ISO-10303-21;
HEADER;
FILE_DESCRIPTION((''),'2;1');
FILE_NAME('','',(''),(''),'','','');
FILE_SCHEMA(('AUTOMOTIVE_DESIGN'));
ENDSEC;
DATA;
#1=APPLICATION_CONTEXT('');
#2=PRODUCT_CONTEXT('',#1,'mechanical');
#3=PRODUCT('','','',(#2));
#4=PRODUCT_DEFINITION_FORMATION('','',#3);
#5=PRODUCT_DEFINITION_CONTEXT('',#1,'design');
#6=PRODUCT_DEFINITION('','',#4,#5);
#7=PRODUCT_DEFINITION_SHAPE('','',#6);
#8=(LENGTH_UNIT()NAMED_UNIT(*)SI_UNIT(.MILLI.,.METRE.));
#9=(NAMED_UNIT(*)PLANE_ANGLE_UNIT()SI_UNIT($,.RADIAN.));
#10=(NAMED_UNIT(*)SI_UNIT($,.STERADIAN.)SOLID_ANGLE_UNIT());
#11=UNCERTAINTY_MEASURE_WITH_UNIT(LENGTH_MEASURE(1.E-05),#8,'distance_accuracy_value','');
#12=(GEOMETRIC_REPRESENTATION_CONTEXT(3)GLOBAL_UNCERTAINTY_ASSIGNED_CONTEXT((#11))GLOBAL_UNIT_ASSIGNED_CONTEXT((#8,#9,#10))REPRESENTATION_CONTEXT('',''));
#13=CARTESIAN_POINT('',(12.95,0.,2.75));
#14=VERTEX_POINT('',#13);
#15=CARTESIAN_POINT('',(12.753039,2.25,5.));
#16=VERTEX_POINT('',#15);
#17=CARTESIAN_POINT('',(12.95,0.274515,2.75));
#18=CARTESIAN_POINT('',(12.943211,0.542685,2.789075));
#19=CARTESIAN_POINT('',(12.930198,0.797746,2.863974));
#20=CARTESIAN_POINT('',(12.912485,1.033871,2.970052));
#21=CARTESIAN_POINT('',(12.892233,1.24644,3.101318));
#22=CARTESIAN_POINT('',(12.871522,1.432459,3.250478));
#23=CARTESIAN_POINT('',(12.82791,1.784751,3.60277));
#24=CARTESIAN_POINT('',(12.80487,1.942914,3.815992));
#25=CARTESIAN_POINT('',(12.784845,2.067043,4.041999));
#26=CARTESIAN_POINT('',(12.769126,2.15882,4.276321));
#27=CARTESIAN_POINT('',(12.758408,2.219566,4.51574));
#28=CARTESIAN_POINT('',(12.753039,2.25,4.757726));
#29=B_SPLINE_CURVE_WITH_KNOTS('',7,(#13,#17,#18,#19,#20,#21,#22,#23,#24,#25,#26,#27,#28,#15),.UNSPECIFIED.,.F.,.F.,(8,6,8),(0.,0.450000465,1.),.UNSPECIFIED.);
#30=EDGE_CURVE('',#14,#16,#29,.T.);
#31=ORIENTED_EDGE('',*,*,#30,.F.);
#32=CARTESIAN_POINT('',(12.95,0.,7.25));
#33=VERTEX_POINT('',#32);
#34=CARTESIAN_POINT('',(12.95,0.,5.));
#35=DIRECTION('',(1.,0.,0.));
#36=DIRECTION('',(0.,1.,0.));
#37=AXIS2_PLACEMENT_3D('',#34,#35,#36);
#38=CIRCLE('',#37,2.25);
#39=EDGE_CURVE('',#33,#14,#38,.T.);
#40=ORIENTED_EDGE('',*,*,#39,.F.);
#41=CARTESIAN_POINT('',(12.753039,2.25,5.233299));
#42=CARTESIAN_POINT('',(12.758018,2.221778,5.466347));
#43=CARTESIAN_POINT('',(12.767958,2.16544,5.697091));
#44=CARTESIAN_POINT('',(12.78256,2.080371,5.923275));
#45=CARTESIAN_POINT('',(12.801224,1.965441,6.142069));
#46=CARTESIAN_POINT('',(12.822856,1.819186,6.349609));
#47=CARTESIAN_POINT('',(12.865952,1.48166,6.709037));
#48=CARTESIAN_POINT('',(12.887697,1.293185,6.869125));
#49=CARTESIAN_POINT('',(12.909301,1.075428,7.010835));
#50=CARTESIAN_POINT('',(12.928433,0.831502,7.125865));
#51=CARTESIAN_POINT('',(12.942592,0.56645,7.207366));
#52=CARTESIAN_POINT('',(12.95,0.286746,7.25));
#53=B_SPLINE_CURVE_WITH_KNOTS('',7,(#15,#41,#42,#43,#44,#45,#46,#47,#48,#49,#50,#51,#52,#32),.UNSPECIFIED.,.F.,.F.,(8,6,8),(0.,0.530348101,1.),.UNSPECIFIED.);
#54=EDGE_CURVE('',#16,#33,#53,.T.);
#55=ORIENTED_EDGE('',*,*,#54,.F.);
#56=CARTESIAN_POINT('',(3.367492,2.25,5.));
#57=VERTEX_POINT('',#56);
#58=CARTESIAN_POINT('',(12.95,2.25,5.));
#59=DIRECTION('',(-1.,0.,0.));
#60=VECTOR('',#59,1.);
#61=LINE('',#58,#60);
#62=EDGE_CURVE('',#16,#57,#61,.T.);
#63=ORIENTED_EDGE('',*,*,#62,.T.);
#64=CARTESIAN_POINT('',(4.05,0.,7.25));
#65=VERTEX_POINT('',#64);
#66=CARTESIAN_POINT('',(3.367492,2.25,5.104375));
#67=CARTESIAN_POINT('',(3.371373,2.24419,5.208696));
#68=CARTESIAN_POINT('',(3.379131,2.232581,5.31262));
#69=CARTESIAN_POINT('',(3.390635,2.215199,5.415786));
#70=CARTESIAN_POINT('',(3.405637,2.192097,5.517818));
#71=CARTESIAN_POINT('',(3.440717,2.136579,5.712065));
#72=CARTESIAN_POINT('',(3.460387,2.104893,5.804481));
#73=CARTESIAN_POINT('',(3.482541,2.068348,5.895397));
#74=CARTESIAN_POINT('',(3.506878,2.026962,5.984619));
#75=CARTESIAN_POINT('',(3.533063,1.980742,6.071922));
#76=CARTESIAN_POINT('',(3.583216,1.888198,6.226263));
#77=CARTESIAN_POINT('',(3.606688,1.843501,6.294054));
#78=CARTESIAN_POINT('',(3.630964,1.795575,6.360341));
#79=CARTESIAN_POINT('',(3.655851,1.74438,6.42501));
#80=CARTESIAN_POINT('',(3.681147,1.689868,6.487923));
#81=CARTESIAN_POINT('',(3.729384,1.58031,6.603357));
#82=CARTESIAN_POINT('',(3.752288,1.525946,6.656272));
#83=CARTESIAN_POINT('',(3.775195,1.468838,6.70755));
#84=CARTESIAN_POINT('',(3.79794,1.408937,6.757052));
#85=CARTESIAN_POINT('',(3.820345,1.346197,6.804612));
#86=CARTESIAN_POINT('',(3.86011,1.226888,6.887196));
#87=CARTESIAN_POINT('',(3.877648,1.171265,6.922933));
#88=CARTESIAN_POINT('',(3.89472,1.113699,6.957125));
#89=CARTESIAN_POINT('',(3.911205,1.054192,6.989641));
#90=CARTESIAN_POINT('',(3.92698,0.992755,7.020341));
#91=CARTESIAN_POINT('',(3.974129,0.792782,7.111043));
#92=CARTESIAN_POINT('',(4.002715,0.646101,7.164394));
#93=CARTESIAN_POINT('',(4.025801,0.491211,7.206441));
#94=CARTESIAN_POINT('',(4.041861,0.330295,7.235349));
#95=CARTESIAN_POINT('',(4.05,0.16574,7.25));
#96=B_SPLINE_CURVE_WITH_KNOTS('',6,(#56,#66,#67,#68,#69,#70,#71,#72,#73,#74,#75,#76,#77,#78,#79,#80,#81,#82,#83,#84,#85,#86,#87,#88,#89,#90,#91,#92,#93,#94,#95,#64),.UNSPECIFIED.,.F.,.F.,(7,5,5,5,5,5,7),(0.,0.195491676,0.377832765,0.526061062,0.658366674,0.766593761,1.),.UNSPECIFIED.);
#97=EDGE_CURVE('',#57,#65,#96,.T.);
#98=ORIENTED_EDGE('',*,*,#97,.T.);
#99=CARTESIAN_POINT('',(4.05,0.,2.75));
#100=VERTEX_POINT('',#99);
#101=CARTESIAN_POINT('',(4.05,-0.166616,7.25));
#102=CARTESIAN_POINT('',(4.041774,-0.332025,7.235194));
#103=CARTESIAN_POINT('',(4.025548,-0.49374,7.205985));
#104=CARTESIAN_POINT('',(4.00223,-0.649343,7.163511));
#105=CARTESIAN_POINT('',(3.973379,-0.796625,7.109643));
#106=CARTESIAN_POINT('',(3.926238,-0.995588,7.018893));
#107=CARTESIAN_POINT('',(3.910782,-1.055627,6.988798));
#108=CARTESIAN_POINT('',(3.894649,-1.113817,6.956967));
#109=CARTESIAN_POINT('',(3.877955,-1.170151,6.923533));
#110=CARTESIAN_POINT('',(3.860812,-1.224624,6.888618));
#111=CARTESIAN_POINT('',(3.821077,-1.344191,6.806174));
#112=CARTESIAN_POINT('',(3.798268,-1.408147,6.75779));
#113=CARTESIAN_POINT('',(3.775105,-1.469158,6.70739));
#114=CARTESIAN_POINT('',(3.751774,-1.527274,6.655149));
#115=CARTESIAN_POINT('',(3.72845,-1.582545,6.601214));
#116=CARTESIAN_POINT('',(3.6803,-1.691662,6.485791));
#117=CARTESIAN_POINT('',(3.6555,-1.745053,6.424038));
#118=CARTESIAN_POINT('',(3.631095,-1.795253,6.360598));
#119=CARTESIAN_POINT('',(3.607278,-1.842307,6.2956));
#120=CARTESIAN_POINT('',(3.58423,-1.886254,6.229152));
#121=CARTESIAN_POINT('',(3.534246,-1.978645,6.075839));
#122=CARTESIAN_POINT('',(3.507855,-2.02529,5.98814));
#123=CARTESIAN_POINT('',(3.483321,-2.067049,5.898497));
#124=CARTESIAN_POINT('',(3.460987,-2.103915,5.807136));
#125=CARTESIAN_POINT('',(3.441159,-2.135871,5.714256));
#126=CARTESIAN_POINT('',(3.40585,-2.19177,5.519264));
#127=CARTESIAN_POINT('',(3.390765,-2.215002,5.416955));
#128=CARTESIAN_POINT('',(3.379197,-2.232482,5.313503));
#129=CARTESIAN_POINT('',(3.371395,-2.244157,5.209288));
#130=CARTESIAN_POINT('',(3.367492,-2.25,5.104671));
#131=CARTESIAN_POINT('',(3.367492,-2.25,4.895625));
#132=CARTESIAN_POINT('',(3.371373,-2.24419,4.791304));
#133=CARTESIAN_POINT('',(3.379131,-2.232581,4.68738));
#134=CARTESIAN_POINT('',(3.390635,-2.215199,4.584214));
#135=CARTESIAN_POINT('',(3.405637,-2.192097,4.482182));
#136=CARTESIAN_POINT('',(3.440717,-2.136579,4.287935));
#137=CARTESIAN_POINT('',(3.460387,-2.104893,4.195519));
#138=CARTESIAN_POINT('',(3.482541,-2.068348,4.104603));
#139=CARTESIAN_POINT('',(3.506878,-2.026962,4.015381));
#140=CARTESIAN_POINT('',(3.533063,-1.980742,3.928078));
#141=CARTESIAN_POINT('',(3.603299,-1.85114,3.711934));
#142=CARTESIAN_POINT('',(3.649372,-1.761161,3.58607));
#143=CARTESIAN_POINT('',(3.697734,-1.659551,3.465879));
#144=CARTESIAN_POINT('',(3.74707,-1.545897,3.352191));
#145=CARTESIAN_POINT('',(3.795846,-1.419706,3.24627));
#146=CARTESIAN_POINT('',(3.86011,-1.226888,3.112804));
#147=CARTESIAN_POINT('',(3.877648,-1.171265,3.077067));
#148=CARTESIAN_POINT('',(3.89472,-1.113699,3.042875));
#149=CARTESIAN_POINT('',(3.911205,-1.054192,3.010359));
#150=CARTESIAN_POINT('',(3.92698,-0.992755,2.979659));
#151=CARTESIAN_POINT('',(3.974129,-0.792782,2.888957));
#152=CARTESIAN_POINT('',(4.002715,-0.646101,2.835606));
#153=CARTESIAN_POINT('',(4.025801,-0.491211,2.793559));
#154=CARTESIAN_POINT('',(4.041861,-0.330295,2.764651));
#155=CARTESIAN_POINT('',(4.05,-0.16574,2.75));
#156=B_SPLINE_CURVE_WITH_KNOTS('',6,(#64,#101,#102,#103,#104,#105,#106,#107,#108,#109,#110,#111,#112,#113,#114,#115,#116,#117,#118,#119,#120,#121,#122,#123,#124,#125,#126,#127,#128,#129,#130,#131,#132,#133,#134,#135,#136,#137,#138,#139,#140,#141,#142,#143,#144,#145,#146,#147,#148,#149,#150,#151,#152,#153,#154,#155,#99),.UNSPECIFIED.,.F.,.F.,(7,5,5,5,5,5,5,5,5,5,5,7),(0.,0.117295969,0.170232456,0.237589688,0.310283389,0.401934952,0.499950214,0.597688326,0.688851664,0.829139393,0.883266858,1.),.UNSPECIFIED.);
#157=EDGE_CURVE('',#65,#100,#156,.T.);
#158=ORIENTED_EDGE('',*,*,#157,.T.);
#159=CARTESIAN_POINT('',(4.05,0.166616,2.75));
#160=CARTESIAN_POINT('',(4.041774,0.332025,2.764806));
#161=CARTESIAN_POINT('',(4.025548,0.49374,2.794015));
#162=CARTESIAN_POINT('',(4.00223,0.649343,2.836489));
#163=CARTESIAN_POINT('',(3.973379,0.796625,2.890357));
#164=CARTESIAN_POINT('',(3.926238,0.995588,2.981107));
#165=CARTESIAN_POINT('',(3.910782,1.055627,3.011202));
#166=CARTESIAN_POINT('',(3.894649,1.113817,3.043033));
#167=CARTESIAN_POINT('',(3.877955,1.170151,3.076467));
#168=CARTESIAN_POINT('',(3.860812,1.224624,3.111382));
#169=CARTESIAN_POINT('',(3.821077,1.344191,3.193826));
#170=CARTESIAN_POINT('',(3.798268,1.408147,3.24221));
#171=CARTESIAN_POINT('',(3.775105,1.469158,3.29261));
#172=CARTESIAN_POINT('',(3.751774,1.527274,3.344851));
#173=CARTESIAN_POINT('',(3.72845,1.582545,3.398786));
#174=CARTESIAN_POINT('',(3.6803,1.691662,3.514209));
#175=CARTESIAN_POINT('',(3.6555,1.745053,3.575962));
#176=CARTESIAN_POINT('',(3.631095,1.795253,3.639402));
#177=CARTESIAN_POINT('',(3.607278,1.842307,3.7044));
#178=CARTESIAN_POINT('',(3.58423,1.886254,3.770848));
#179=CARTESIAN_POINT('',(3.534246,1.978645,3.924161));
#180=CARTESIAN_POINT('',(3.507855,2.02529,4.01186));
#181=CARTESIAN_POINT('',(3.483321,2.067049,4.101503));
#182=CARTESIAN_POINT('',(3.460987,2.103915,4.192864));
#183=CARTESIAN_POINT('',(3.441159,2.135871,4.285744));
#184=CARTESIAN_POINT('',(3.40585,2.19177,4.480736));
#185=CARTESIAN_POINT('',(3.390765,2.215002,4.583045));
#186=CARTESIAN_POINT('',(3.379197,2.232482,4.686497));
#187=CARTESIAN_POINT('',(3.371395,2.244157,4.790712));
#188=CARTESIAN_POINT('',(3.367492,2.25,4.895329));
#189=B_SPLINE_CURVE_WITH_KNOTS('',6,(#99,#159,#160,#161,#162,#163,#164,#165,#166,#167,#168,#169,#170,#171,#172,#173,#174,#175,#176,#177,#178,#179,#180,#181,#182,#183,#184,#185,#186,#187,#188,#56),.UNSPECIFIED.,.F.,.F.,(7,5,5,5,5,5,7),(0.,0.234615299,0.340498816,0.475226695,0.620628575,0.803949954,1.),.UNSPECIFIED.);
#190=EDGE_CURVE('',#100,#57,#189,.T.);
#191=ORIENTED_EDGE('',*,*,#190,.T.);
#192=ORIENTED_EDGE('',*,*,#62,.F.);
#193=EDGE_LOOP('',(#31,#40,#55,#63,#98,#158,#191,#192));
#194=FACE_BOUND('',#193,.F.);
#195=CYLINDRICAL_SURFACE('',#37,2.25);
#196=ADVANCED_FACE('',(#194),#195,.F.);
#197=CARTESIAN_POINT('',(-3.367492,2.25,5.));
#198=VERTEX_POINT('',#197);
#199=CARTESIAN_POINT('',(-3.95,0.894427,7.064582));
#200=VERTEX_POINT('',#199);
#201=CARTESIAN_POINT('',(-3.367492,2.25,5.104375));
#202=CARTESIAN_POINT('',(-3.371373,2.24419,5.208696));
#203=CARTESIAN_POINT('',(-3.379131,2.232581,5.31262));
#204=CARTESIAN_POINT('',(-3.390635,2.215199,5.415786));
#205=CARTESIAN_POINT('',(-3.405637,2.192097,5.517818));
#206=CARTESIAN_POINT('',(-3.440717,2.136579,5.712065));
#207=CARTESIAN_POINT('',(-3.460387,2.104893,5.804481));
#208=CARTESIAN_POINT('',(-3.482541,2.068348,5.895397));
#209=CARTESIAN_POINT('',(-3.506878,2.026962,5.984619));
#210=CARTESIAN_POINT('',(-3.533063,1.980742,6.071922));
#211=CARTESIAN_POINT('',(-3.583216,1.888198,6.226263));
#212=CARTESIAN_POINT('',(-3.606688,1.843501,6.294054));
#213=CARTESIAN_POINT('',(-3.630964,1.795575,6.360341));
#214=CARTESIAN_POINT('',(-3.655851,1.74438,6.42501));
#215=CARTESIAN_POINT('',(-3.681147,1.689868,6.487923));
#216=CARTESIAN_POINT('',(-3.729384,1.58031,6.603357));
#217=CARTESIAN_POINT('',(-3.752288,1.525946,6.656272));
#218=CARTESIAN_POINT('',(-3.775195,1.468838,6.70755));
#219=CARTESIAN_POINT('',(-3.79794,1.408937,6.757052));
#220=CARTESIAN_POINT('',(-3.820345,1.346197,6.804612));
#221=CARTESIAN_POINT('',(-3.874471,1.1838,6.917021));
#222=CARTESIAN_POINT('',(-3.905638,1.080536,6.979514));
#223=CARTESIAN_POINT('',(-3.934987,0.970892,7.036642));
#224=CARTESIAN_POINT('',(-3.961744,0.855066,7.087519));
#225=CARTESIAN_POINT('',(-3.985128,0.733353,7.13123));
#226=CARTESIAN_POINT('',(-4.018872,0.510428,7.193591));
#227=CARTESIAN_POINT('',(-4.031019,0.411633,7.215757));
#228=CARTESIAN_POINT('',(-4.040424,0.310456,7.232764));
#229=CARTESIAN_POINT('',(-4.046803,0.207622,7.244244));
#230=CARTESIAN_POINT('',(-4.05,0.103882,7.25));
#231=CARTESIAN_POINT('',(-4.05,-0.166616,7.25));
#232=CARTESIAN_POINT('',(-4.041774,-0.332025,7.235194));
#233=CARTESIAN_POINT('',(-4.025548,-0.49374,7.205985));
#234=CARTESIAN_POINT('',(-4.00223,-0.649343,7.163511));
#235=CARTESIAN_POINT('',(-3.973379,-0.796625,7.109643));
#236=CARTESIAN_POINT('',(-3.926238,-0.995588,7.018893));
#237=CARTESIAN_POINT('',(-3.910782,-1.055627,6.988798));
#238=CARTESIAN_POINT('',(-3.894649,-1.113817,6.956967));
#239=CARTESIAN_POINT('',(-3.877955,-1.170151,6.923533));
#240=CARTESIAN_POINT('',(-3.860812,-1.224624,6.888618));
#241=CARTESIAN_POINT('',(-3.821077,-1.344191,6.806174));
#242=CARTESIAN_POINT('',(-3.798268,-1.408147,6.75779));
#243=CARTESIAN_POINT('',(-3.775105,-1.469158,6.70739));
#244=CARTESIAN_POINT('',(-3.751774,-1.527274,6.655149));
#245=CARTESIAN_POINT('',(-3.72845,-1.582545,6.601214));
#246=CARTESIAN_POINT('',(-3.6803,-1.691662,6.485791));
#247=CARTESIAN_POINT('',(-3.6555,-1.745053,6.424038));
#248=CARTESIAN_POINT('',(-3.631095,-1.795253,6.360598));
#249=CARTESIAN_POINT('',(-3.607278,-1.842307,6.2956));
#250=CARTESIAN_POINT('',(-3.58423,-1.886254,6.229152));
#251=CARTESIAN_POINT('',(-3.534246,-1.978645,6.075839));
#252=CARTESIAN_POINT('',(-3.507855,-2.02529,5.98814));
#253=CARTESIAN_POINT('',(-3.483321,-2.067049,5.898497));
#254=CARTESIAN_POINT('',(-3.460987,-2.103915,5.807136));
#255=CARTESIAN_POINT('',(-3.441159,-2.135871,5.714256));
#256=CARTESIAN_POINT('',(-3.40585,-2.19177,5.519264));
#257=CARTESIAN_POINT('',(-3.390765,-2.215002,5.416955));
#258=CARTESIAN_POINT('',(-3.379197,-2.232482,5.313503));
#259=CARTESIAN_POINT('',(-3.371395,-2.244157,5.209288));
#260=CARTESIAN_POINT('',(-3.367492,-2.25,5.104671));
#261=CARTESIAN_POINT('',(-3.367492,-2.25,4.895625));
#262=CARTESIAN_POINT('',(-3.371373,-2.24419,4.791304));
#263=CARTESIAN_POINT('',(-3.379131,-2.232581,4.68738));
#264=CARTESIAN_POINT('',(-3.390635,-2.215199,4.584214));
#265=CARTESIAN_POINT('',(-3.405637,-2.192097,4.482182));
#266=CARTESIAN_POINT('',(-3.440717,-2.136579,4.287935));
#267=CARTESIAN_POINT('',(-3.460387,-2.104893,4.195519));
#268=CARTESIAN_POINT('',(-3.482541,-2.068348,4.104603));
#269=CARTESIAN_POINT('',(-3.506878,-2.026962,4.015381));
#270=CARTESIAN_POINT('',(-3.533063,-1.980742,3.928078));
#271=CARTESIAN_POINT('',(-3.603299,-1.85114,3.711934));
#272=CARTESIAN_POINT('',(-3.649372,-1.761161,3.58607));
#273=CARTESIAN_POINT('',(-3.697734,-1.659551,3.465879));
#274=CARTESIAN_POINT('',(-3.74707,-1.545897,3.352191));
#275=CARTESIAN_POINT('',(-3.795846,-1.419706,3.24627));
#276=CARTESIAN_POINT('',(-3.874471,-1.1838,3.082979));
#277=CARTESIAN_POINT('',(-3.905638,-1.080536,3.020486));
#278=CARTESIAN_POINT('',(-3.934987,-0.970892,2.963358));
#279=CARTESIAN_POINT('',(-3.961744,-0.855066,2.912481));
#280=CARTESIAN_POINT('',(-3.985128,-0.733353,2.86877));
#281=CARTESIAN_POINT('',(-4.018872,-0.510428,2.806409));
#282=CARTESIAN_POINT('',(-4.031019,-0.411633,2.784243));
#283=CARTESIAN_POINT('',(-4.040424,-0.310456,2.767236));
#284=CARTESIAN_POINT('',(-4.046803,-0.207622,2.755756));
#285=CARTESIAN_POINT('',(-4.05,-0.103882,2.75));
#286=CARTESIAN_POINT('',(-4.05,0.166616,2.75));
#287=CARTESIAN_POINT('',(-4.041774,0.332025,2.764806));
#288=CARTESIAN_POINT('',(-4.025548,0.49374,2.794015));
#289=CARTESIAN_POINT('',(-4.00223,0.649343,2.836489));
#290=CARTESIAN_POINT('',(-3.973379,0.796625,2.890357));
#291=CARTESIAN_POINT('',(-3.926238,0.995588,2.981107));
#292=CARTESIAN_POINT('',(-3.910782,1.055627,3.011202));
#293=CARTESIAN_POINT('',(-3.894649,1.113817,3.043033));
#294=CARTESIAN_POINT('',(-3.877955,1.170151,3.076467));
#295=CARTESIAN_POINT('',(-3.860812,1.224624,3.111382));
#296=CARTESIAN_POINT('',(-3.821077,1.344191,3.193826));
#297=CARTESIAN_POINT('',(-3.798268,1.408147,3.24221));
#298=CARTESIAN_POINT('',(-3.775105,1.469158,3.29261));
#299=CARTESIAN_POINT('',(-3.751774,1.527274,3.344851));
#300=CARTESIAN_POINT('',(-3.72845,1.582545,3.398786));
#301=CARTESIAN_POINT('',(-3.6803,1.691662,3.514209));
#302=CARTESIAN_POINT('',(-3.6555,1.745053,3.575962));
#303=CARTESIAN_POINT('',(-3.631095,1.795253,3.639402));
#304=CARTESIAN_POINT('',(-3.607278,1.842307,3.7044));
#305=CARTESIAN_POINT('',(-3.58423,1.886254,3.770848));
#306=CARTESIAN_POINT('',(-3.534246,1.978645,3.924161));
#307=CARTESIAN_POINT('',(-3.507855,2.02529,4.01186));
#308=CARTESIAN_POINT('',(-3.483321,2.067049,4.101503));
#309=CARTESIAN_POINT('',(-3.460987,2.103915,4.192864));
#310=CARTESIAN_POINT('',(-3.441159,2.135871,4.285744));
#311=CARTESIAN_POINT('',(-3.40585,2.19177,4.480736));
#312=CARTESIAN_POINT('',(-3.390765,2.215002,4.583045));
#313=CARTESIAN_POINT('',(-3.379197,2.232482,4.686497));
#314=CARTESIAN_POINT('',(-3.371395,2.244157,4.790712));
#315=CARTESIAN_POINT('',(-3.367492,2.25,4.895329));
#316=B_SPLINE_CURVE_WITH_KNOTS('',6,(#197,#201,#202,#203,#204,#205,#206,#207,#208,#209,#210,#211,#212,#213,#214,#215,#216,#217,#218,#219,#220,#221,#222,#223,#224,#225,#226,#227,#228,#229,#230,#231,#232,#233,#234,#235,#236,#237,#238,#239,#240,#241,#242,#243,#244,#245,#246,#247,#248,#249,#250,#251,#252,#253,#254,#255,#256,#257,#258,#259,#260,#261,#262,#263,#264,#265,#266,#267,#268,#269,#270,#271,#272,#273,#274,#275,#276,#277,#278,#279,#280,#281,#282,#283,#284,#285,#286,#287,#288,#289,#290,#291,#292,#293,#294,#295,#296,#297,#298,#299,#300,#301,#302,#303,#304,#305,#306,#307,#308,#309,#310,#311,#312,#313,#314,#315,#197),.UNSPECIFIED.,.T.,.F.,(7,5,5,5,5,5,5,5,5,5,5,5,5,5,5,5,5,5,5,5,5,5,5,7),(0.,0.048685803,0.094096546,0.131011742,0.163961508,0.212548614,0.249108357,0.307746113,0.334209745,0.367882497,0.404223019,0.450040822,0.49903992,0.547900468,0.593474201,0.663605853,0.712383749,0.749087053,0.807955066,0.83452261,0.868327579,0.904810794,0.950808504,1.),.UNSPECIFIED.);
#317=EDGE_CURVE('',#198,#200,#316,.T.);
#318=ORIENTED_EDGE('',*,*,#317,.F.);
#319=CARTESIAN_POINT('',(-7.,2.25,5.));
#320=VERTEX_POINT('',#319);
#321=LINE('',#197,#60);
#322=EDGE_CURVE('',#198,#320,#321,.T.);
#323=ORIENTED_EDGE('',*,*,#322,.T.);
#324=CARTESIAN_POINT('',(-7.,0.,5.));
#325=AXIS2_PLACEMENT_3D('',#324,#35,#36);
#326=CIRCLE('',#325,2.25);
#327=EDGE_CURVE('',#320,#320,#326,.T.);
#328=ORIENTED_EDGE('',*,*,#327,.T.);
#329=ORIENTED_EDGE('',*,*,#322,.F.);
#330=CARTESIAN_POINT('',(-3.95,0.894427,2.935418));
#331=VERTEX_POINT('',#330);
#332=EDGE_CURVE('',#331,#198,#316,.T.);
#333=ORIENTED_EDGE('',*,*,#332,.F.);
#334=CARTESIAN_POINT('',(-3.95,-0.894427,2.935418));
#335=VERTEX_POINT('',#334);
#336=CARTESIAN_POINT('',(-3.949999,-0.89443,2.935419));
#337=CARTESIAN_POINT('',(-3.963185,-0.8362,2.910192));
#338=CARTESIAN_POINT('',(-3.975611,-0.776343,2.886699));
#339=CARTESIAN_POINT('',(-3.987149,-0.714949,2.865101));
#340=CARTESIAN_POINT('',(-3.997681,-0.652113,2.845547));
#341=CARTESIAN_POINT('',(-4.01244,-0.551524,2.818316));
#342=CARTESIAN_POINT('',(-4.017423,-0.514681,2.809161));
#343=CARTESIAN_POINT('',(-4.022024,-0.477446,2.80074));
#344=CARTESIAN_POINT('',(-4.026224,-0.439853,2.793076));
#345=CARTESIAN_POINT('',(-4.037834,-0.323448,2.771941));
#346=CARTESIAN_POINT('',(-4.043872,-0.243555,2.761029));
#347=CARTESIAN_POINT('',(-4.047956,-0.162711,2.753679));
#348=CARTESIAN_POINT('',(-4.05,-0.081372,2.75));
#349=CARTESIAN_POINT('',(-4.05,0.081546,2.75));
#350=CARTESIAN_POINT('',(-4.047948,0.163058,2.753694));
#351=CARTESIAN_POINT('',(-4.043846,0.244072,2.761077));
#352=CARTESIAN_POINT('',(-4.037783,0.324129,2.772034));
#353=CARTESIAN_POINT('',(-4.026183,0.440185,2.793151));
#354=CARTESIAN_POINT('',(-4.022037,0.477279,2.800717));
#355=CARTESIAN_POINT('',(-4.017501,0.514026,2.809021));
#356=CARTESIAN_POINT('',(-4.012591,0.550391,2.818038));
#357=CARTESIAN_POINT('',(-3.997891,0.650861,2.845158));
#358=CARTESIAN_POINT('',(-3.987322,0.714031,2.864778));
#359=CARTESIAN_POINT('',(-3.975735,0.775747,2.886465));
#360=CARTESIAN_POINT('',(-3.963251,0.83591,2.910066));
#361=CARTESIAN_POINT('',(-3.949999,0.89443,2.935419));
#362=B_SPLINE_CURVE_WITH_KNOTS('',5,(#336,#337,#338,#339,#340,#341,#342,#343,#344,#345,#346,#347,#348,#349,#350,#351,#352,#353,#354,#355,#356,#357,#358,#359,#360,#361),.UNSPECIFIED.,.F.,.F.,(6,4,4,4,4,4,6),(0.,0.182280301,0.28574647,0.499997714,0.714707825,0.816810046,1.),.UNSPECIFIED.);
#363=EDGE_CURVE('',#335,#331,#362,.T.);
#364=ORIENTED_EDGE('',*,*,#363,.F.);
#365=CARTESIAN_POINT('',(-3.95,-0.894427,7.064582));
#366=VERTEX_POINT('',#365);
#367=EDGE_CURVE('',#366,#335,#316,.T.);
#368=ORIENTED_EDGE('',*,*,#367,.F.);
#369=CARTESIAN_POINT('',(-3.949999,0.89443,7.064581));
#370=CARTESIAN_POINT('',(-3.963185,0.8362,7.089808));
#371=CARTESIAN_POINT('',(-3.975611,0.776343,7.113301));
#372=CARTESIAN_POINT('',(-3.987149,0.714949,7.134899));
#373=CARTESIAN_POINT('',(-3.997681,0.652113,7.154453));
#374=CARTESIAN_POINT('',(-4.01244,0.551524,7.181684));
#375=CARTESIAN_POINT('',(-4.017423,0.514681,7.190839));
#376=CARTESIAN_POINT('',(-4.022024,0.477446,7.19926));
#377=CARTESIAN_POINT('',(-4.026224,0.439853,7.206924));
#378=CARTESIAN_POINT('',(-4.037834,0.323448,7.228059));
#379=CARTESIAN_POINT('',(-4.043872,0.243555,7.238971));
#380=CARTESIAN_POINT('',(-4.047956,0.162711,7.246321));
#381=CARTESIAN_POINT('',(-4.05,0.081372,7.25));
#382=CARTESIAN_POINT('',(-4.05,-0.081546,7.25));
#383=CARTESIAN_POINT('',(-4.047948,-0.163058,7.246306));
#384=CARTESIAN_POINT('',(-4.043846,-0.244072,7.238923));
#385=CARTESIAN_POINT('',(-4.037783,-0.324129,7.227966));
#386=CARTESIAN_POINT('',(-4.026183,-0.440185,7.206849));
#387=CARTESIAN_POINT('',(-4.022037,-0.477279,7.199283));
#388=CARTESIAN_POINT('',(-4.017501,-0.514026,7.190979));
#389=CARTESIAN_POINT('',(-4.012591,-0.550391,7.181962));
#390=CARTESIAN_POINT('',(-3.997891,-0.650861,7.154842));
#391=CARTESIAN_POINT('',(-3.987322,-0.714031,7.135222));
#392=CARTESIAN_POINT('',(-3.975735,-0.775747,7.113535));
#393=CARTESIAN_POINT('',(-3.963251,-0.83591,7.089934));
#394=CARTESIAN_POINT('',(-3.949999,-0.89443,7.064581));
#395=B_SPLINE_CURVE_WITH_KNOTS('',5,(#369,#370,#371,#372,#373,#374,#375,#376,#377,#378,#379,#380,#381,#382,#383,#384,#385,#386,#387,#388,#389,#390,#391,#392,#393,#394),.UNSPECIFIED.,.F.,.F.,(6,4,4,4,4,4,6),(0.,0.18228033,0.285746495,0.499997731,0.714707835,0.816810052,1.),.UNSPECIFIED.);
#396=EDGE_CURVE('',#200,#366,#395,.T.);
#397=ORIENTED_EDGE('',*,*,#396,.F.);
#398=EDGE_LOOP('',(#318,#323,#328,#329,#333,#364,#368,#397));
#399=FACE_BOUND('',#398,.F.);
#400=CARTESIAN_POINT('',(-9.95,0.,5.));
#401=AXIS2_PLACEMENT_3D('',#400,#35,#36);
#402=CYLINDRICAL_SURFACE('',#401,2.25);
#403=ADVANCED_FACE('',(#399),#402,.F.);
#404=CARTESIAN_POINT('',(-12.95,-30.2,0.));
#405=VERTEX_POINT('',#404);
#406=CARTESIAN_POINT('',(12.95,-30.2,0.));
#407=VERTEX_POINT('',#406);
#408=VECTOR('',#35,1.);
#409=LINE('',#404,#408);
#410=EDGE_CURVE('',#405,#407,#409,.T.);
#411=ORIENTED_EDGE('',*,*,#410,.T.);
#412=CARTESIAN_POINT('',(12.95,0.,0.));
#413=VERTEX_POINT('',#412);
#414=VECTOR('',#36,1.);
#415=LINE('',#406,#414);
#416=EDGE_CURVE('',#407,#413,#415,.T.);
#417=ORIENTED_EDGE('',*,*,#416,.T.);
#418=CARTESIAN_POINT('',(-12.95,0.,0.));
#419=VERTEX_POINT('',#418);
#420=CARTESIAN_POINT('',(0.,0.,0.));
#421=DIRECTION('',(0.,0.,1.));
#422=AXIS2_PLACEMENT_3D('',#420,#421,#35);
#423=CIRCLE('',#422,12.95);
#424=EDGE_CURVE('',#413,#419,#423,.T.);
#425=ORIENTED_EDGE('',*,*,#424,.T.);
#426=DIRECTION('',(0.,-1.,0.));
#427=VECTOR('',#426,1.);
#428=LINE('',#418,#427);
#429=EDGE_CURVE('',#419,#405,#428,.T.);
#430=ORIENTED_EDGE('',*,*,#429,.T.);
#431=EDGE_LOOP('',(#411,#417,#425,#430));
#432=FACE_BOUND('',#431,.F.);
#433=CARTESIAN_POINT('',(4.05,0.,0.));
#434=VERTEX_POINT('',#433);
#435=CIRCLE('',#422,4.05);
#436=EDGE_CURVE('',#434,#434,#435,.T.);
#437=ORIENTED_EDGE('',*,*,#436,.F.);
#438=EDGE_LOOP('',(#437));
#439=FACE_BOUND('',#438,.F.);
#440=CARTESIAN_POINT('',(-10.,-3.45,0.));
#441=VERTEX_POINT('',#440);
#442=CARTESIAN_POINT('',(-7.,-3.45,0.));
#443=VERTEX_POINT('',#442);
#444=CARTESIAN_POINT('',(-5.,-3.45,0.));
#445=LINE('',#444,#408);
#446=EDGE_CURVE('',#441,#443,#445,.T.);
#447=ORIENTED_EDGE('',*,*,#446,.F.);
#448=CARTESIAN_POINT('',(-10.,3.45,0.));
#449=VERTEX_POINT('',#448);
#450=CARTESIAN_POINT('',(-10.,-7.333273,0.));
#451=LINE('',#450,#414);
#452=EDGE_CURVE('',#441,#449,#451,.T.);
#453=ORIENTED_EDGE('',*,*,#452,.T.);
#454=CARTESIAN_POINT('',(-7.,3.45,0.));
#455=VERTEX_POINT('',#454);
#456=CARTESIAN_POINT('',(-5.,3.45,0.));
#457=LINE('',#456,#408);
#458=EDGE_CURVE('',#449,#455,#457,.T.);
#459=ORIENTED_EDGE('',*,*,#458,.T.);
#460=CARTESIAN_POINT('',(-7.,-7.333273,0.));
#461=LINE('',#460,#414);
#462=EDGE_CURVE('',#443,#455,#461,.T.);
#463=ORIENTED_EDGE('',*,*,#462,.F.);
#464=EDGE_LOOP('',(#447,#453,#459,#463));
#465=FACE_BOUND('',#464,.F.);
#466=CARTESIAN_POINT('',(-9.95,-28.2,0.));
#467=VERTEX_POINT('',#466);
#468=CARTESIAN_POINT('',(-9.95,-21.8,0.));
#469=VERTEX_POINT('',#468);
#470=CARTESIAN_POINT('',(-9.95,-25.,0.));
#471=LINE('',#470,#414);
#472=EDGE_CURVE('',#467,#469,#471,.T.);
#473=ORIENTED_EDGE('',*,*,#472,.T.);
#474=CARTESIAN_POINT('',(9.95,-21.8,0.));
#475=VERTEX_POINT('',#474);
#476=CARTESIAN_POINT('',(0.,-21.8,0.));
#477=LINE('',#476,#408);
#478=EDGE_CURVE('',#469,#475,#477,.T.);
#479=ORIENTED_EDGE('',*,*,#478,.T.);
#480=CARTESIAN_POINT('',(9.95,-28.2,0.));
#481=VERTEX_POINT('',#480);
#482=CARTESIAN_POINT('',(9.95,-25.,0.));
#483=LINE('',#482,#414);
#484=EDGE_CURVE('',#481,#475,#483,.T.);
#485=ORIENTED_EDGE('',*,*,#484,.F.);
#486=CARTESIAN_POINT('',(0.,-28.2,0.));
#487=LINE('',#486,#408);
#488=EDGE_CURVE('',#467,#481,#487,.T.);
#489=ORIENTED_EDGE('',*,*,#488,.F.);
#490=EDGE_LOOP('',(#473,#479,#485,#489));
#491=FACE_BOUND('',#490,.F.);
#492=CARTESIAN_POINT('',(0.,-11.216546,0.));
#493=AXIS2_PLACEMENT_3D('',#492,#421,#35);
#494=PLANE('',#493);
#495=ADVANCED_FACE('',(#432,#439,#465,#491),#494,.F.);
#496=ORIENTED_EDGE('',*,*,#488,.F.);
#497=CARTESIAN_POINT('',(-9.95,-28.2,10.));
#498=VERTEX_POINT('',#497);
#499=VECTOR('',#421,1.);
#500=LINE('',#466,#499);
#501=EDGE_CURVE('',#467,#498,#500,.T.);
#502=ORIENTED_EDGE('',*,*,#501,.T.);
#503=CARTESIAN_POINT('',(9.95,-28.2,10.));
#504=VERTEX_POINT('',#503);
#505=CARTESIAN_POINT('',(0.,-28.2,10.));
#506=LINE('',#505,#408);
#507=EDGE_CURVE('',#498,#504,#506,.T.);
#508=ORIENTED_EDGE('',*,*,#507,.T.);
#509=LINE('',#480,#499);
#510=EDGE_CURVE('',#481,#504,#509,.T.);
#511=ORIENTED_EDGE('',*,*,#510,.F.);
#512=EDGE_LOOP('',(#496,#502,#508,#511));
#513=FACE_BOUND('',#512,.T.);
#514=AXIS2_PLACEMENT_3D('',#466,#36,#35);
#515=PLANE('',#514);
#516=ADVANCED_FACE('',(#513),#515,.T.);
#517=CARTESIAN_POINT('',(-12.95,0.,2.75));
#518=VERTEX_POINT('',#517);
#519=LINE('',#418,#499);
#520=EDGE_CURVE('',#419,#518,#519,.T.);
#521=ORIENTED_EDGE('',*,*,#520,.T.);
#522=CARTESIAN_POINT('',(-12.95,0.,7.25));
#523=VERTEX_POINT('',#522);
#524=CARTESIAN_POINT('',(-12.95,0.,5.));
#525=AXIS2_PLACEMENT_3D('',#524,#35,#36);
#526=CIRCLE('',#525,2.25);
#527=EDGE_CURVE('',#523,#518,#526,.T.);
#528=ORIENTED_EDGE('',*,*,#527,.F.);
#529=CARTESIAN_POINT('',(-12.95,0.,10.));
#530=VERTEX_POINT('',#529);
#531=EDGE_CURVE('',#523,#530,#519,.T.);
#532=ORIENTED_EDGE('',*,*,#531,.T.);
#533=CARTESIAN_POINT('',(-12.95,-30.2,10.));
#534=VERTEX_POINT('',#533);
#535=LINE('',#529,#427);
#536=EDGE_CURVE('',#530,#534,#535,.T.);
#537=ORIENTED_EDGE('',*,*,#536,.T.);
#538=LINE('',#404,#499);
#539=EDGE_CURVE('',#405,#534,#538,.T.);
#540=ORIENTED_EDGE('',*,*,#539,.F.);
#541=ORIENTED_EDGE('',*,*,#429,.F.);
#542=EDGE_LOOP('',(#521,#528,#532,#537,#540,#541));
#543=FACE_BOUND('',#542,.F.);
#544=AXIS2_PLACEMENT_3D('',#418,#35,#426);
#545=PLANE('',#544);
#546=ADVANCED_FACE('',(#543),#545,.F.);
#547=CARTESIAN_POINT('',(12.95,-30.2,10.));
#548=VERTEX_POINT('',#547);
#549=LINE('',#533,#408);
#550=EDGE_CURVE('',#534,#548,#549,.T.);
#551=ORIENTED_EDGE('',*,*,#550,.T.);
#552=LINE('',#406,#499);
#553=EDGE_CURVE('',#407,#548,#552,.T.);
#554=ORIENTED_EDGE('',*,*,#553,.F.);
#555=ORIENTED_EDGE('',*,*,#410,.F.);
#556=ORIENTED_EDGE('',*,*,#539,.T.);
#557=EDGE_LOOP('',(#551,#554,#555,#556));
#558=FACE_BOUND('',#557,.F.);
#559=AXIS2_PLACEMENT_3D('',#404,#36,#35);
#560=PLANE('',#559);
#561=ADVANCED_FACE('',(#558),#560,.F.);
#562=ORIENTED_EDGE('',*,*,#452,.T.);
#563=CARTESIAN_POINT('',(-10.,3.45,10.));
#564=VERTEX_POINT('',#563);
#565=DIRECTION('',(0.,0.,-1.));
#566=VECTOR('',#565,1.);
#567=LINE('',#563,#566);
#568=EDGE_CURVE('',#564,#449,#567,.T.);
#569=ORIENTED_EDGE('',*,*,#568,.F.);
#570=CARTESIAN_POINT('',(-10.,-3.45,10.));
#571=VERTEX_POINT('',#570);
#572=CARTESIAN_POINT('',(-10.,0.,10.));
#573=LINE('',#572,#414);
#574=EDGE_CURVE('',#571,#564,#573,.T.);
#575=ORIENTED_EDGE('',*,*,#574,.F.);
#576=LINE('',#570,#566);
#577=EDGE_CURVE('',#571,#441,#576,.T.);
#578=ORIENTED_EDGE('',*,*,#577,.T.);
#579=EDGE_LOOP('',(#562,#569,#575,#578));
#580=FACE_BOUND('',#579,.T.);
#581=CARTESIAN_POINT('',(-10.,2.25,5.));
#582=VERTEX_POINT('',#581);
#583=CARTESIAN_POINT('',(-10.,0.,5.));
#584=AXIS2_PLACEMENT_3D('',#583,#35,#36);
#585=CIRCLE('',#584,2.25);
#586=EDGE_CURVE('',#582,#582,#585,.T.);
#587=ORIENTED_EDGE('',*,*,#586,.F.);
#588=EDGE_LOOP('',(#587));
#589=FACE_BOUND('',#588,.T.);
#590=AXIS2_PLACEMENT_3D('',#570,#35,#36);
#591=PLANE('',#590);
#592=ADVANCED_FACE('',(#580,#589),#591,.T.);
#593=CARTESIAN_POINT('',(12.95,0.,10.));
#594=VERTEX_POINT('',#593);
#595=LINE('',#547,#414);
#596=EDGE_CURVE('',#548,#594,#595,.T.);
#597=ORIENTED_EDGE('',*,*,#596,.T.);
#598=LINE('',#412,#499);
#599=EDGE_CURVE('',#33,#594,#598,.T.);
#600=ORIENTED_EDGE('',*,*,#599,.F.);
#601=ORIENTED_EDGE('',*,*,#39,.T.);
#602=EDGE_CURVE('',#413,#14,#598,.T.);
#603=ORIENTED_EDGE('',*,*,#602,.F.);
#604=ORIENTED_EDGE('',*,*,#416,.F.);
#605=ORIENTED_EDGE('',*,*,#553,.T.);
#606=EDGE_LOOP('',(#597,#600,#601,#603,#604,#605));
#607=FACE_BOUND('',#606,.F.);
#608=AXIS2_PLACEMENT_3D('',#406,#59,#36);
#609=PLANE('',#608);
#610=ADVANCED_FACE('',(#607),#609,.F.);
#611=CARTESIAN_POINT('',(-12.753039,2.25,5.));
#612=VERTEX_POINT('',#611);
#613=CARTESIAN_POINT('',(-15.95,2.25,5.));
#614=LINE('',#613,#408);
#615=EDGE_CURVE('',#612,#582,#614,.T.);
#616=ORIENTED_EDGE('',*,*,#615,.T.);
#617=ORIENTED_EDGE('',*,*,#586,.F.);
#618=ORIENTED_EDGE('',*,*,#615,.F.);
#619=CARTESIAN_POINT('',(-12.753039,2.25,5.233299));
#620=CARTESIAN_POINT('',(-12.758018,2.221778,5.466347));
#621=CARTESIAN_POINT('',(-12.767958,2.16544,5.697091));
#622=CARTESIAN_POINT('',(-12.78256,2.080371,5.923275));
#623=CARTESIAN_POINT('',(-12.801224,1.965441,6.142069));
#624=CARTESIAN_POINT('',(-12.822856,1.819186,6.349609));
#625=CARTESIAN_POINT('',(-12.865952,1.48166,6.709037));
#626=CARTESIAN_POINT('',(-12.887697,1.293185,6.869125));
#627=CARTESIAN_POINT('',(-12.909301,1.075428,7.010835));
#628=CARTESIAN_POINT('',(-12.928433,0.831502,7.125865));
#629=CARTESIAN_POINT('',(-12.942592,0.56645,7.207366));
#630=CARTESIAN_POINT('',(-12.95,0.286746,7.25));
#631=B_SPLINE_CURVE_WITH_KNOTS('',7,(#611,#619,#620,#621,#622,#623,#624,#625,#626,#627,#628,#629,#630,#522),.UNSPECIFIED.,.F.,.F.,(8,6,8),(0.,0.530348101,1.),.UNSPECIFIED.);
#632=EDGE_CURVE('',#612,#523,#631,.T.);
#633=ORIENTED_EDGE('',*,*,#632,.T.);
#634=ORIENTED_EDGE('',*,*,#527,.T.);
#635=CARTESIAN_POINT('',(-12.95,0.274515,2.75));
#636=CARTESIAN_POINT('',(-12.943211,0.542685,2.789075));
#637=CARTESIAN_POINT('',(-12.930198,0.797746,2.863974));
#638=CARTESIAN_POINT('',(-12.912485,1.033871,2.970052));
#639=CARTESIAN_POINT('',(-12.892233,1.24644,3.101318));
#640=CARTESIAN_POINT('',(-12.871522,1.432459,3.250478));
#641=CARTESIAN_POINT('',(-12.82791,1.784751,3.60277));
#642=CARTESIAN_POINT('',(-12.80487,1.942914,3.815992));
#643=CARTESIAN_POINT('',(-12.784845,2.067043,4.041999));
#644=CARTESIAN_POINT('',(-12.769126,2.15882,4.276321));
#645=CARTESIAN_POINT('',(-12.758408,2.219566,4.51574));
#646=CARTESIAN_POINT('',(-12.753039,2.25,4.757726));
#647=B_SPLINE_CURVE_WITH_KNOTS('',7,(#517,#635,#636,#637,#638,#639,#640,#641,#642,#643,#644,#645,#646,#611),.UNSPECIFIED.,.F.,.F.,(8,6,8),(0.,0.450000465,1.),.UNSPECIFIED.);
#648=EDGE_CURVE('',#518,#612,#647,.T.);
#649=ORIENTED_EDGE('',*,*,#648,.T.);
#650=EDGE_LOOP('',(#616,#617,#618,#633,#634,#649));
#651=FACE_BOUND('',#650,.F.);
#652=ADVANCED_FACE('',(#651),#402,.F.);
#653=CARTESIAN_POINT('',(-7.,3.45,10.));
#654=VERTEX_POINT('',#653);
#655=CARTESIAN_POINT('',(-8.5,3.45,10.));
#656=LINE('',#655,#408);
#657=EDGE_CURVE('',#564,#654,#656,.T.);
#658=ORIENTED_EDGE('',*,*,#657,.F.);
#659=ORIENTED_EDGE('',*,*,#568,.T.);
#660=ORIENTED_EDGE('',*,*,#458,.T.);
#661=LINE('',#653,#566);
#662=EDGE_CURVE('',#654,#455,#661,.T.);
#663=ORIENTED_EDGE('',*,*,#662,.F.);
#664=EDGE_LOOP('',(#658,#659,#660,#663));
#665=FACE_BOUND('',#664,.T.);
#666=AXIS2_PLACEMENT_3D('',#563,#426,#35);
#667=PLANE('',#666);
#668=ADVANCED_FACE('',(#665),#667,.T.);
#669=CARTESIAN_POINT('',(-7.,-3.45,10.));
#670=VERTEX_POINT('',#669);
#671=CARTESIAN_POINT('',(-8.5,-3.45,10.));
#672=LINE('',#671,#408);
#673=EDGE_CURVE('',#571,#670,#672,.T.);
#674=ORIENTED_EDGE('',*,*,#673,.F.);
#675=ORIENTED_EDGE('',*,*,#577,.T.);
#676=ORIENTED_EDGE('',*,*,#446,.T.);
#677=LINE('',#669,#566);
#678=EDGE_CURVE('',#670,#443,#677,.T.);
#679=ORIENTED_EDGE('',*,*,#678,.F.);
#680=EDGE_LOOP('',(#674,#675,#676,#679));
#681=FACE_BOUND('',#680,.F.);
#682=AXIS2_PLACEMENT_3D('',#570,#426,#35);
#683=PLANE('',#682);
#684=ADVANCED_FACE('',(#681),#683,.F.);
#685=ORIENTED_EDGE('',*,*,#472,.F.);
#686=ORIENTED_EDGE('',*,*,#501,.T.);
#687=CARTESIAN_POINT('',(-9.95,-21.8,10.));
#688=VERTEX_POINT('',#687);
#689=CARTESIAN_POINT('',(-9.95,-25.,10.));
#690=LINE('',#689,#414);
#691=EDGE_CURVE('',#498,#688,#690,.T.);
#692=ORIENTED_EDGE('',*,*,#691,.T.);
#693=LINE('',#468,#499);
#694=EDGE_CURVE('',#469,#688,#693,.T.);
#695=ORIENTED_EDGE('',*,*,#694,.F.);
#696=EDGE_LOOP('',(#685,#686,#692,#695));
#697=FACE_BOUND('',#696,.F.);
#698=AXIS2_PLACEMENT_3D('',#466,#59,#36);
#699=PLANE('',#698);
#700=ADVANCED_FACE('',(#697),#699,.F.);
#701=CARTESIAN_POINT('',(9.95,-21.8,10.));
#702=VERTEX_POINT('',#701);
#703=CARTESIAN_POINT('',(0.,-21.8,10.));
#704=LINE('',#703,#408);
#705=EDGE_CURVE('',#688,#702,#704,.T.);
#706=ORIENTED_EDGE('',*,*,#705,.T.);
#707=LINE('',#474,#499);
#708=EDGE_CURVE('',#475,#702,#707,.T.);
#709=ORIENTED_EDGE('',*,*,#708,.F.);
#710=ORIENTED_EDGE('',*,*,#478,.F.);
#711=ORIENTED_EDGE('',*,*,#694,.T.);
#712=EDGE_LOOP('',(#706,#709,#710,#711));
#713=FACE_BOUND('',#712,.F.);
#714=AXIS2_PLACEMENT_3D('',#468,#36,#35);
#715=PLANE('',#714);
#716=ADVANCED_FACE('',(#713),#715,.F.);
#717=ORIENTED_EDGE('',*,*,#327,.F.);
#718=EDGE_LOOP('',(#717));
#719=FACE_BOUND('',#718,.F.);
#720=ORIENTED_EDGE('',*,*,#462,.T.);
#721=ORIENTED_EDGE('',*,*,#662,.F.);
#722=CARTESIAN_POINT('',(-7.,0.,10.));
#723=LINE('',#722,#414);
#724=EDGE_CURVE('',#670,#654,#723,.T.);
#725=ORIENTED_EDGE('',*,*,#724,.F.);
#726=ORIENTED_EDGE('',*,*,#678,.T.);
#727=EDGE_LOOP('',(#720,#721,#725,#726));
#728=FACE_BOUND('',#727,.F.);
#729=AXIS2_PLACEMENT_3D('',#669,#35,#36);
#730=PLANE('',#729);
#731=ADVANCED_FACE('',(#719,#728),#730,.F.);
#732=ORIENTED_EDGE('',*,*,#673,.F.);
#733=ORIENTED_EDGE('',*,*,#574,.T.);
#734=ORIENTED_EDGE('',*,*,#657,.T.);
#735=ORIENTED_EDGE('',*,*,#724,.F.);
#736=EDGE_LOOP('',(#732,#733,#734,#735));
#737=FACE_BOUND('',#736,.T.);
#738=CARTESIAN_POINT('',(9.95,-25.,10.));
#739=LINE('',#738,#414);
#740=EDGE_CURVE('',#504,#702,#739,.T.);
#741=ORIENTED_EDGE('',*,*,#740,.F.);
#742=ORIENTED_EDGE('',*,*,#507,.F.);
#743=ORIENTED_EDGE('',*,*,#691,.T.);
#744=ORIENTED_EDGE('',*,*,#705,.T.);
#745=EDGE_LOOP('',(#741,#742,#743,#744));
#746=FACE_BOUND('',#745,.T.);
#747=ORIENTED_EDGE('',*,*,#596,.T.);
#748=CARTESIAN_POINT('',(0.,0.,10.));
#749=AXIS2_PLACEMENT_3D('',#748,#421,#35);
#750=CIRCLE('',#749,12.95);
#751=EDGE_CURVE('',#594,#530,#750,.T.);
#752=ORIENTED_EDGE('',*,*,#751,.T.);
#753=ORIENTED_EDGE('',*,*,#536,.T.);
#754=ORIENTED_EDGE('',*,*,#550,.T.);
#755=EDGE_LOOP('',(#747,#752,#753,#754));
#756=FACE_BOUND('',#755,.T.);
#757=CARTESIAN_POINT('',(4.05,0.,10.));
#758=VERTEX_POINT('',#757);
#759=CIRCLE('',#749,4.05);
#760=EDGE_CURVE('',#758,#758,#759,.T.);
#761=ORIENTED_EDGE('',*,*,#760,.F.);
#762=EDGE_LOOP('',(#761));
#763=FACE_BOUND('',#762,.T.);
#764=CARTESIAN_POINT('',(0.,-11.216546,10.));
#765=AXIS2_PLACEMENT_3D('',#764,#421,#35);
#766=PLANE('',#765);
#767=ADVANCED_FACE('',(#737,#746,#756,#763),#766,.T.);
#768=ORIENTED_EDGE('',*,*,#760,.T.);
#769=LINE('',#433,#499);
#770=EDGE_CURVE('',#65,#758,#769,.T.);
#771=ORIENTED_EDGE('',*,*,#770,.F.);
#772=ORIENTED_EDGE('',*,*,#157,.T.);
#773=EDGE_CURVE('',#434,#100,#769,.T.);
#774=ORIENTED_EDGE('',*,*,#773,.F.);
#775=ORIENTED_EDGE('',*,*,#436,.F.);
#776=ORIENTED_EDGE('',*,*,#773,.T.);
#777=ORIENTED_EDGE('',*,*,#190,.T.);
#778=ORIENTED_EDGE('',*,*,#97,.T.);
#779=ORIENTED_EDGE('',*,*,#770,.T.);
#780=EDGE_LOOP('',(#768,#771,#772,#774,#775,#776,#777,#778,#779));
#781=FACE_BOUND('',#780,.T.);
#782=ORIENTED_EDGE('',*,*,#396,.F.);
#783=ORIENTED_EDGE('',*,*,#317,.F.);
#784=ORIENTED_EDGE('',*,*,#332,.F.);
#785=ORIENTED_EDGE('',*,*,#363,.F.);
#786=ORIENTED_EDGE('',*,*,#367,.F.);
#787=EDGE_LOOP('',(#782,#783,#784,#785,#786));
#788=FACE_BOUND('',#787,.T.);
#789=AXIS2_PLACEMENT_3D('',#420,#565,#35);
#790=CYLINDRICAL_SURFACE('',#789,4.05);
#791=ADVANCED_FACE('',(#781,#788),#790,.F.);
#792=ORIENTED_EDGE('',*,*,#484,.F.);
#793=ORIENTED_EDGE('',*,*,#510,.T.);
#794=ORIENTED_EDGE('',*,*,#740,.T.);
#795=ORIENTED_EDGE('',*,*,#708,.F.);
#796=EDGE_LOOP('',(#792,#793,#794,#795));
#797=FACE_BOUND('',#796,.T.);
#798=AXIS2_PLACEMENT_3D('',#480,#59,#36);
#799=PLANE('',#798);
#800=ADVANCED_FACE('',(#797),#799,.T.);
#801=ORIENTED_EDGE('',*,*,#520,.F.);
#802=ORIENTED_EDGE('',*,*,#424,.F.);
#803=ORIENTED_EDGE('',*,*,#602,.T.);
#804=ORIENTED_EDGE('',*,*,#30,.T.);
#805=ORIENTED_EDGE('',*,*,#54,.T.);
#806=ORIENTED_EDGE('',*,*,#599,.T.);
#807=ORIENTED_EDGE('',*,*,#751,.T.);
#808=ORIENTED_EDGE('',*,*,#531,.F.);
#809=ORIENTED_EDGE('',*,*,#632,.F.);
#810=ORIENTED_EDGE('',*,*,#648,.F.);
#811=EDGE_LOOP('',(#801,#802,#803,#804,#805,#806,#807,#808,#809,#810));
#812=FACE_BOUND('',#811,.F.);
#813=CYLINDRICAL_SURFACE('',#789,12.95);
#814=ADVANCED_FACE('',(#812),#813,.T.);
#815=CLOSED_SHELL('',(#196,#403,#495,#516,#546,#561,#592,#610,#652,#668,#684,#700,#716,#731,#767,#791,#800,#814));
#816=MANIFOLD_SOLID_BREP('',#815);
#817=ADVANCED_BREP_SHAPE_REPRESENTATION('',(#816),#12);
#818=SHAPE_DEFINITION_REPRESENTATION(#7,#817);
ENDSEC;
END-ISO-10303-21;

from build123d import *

# Parameters (mm, degrees)
SKETCH_R        = 4.05
SKETCH_W        = 19.9
SKETCH_H        = 6.4
PAD_DEPTH       = 10
SKETCH002_W     = 3
SKETCH002_H     = 6.9
POCKET001_DEPTH = 12
SKETCH003_R     = 2.25
POCKET_DEPTH    = 6
SKETCH004_R     = 2.25
POCKET002_DEPTH = 25.901


with BuildPart() as part:
    # Sketch → Pad (new body)
    with BuildSketch(Plane.XY):
        with BuildLine():
            ThreePointArc((12.95, 0), (0, 12.95), (-12.95, 0))
            Line((-12.95, 0), (-12.95, -30.2))
            Line((-12.95, -30.2), (12.95, -30.2))
            Line((12.95, -30.2), (12.95, 0))
        make_face()
        Circle(SKETCH_R, mode=Mode.SUBTRACT)
        with Locations((0, -25)):
            Rectangle(SKETCH_W, SKETCH_H, mode=Mode.SUBTRACT)
    extrude(amount=PAD_DEPTH)

    # Sketch002 → Pocket001 (cut)
    with BuildSketch(Plane.XY.offset(10)):
        with Locations((-8.5, 0)):
            Rectangle(SKETCH002_W, SKETCH002_H)
    extrude(amount=-POCKET001_DEPTH, mode=Mode.SUBTRACT)

    # Sketch003 → Pocket (cut, symmetric)
    with BuildSketch(Plane.YZ.offset(-9.95)):
        with Locations((0, 5)):
            Circle(SKETCH003_R)
    extrude(amount=POCKET_DEPTH, both=True, mode=Mode.SUBTRACT)

    # Sketch004 → Pocket002 (cut, through all)
    with BuildSketch(Plane.YZ.offset(12.95)):
        with Locations((0, 5)):
            Circle(SKETCH004_R)
    extrude(amount=-POCKET002_DEPTH, mode=Mode.SUBTRACT)


solid = part.part
